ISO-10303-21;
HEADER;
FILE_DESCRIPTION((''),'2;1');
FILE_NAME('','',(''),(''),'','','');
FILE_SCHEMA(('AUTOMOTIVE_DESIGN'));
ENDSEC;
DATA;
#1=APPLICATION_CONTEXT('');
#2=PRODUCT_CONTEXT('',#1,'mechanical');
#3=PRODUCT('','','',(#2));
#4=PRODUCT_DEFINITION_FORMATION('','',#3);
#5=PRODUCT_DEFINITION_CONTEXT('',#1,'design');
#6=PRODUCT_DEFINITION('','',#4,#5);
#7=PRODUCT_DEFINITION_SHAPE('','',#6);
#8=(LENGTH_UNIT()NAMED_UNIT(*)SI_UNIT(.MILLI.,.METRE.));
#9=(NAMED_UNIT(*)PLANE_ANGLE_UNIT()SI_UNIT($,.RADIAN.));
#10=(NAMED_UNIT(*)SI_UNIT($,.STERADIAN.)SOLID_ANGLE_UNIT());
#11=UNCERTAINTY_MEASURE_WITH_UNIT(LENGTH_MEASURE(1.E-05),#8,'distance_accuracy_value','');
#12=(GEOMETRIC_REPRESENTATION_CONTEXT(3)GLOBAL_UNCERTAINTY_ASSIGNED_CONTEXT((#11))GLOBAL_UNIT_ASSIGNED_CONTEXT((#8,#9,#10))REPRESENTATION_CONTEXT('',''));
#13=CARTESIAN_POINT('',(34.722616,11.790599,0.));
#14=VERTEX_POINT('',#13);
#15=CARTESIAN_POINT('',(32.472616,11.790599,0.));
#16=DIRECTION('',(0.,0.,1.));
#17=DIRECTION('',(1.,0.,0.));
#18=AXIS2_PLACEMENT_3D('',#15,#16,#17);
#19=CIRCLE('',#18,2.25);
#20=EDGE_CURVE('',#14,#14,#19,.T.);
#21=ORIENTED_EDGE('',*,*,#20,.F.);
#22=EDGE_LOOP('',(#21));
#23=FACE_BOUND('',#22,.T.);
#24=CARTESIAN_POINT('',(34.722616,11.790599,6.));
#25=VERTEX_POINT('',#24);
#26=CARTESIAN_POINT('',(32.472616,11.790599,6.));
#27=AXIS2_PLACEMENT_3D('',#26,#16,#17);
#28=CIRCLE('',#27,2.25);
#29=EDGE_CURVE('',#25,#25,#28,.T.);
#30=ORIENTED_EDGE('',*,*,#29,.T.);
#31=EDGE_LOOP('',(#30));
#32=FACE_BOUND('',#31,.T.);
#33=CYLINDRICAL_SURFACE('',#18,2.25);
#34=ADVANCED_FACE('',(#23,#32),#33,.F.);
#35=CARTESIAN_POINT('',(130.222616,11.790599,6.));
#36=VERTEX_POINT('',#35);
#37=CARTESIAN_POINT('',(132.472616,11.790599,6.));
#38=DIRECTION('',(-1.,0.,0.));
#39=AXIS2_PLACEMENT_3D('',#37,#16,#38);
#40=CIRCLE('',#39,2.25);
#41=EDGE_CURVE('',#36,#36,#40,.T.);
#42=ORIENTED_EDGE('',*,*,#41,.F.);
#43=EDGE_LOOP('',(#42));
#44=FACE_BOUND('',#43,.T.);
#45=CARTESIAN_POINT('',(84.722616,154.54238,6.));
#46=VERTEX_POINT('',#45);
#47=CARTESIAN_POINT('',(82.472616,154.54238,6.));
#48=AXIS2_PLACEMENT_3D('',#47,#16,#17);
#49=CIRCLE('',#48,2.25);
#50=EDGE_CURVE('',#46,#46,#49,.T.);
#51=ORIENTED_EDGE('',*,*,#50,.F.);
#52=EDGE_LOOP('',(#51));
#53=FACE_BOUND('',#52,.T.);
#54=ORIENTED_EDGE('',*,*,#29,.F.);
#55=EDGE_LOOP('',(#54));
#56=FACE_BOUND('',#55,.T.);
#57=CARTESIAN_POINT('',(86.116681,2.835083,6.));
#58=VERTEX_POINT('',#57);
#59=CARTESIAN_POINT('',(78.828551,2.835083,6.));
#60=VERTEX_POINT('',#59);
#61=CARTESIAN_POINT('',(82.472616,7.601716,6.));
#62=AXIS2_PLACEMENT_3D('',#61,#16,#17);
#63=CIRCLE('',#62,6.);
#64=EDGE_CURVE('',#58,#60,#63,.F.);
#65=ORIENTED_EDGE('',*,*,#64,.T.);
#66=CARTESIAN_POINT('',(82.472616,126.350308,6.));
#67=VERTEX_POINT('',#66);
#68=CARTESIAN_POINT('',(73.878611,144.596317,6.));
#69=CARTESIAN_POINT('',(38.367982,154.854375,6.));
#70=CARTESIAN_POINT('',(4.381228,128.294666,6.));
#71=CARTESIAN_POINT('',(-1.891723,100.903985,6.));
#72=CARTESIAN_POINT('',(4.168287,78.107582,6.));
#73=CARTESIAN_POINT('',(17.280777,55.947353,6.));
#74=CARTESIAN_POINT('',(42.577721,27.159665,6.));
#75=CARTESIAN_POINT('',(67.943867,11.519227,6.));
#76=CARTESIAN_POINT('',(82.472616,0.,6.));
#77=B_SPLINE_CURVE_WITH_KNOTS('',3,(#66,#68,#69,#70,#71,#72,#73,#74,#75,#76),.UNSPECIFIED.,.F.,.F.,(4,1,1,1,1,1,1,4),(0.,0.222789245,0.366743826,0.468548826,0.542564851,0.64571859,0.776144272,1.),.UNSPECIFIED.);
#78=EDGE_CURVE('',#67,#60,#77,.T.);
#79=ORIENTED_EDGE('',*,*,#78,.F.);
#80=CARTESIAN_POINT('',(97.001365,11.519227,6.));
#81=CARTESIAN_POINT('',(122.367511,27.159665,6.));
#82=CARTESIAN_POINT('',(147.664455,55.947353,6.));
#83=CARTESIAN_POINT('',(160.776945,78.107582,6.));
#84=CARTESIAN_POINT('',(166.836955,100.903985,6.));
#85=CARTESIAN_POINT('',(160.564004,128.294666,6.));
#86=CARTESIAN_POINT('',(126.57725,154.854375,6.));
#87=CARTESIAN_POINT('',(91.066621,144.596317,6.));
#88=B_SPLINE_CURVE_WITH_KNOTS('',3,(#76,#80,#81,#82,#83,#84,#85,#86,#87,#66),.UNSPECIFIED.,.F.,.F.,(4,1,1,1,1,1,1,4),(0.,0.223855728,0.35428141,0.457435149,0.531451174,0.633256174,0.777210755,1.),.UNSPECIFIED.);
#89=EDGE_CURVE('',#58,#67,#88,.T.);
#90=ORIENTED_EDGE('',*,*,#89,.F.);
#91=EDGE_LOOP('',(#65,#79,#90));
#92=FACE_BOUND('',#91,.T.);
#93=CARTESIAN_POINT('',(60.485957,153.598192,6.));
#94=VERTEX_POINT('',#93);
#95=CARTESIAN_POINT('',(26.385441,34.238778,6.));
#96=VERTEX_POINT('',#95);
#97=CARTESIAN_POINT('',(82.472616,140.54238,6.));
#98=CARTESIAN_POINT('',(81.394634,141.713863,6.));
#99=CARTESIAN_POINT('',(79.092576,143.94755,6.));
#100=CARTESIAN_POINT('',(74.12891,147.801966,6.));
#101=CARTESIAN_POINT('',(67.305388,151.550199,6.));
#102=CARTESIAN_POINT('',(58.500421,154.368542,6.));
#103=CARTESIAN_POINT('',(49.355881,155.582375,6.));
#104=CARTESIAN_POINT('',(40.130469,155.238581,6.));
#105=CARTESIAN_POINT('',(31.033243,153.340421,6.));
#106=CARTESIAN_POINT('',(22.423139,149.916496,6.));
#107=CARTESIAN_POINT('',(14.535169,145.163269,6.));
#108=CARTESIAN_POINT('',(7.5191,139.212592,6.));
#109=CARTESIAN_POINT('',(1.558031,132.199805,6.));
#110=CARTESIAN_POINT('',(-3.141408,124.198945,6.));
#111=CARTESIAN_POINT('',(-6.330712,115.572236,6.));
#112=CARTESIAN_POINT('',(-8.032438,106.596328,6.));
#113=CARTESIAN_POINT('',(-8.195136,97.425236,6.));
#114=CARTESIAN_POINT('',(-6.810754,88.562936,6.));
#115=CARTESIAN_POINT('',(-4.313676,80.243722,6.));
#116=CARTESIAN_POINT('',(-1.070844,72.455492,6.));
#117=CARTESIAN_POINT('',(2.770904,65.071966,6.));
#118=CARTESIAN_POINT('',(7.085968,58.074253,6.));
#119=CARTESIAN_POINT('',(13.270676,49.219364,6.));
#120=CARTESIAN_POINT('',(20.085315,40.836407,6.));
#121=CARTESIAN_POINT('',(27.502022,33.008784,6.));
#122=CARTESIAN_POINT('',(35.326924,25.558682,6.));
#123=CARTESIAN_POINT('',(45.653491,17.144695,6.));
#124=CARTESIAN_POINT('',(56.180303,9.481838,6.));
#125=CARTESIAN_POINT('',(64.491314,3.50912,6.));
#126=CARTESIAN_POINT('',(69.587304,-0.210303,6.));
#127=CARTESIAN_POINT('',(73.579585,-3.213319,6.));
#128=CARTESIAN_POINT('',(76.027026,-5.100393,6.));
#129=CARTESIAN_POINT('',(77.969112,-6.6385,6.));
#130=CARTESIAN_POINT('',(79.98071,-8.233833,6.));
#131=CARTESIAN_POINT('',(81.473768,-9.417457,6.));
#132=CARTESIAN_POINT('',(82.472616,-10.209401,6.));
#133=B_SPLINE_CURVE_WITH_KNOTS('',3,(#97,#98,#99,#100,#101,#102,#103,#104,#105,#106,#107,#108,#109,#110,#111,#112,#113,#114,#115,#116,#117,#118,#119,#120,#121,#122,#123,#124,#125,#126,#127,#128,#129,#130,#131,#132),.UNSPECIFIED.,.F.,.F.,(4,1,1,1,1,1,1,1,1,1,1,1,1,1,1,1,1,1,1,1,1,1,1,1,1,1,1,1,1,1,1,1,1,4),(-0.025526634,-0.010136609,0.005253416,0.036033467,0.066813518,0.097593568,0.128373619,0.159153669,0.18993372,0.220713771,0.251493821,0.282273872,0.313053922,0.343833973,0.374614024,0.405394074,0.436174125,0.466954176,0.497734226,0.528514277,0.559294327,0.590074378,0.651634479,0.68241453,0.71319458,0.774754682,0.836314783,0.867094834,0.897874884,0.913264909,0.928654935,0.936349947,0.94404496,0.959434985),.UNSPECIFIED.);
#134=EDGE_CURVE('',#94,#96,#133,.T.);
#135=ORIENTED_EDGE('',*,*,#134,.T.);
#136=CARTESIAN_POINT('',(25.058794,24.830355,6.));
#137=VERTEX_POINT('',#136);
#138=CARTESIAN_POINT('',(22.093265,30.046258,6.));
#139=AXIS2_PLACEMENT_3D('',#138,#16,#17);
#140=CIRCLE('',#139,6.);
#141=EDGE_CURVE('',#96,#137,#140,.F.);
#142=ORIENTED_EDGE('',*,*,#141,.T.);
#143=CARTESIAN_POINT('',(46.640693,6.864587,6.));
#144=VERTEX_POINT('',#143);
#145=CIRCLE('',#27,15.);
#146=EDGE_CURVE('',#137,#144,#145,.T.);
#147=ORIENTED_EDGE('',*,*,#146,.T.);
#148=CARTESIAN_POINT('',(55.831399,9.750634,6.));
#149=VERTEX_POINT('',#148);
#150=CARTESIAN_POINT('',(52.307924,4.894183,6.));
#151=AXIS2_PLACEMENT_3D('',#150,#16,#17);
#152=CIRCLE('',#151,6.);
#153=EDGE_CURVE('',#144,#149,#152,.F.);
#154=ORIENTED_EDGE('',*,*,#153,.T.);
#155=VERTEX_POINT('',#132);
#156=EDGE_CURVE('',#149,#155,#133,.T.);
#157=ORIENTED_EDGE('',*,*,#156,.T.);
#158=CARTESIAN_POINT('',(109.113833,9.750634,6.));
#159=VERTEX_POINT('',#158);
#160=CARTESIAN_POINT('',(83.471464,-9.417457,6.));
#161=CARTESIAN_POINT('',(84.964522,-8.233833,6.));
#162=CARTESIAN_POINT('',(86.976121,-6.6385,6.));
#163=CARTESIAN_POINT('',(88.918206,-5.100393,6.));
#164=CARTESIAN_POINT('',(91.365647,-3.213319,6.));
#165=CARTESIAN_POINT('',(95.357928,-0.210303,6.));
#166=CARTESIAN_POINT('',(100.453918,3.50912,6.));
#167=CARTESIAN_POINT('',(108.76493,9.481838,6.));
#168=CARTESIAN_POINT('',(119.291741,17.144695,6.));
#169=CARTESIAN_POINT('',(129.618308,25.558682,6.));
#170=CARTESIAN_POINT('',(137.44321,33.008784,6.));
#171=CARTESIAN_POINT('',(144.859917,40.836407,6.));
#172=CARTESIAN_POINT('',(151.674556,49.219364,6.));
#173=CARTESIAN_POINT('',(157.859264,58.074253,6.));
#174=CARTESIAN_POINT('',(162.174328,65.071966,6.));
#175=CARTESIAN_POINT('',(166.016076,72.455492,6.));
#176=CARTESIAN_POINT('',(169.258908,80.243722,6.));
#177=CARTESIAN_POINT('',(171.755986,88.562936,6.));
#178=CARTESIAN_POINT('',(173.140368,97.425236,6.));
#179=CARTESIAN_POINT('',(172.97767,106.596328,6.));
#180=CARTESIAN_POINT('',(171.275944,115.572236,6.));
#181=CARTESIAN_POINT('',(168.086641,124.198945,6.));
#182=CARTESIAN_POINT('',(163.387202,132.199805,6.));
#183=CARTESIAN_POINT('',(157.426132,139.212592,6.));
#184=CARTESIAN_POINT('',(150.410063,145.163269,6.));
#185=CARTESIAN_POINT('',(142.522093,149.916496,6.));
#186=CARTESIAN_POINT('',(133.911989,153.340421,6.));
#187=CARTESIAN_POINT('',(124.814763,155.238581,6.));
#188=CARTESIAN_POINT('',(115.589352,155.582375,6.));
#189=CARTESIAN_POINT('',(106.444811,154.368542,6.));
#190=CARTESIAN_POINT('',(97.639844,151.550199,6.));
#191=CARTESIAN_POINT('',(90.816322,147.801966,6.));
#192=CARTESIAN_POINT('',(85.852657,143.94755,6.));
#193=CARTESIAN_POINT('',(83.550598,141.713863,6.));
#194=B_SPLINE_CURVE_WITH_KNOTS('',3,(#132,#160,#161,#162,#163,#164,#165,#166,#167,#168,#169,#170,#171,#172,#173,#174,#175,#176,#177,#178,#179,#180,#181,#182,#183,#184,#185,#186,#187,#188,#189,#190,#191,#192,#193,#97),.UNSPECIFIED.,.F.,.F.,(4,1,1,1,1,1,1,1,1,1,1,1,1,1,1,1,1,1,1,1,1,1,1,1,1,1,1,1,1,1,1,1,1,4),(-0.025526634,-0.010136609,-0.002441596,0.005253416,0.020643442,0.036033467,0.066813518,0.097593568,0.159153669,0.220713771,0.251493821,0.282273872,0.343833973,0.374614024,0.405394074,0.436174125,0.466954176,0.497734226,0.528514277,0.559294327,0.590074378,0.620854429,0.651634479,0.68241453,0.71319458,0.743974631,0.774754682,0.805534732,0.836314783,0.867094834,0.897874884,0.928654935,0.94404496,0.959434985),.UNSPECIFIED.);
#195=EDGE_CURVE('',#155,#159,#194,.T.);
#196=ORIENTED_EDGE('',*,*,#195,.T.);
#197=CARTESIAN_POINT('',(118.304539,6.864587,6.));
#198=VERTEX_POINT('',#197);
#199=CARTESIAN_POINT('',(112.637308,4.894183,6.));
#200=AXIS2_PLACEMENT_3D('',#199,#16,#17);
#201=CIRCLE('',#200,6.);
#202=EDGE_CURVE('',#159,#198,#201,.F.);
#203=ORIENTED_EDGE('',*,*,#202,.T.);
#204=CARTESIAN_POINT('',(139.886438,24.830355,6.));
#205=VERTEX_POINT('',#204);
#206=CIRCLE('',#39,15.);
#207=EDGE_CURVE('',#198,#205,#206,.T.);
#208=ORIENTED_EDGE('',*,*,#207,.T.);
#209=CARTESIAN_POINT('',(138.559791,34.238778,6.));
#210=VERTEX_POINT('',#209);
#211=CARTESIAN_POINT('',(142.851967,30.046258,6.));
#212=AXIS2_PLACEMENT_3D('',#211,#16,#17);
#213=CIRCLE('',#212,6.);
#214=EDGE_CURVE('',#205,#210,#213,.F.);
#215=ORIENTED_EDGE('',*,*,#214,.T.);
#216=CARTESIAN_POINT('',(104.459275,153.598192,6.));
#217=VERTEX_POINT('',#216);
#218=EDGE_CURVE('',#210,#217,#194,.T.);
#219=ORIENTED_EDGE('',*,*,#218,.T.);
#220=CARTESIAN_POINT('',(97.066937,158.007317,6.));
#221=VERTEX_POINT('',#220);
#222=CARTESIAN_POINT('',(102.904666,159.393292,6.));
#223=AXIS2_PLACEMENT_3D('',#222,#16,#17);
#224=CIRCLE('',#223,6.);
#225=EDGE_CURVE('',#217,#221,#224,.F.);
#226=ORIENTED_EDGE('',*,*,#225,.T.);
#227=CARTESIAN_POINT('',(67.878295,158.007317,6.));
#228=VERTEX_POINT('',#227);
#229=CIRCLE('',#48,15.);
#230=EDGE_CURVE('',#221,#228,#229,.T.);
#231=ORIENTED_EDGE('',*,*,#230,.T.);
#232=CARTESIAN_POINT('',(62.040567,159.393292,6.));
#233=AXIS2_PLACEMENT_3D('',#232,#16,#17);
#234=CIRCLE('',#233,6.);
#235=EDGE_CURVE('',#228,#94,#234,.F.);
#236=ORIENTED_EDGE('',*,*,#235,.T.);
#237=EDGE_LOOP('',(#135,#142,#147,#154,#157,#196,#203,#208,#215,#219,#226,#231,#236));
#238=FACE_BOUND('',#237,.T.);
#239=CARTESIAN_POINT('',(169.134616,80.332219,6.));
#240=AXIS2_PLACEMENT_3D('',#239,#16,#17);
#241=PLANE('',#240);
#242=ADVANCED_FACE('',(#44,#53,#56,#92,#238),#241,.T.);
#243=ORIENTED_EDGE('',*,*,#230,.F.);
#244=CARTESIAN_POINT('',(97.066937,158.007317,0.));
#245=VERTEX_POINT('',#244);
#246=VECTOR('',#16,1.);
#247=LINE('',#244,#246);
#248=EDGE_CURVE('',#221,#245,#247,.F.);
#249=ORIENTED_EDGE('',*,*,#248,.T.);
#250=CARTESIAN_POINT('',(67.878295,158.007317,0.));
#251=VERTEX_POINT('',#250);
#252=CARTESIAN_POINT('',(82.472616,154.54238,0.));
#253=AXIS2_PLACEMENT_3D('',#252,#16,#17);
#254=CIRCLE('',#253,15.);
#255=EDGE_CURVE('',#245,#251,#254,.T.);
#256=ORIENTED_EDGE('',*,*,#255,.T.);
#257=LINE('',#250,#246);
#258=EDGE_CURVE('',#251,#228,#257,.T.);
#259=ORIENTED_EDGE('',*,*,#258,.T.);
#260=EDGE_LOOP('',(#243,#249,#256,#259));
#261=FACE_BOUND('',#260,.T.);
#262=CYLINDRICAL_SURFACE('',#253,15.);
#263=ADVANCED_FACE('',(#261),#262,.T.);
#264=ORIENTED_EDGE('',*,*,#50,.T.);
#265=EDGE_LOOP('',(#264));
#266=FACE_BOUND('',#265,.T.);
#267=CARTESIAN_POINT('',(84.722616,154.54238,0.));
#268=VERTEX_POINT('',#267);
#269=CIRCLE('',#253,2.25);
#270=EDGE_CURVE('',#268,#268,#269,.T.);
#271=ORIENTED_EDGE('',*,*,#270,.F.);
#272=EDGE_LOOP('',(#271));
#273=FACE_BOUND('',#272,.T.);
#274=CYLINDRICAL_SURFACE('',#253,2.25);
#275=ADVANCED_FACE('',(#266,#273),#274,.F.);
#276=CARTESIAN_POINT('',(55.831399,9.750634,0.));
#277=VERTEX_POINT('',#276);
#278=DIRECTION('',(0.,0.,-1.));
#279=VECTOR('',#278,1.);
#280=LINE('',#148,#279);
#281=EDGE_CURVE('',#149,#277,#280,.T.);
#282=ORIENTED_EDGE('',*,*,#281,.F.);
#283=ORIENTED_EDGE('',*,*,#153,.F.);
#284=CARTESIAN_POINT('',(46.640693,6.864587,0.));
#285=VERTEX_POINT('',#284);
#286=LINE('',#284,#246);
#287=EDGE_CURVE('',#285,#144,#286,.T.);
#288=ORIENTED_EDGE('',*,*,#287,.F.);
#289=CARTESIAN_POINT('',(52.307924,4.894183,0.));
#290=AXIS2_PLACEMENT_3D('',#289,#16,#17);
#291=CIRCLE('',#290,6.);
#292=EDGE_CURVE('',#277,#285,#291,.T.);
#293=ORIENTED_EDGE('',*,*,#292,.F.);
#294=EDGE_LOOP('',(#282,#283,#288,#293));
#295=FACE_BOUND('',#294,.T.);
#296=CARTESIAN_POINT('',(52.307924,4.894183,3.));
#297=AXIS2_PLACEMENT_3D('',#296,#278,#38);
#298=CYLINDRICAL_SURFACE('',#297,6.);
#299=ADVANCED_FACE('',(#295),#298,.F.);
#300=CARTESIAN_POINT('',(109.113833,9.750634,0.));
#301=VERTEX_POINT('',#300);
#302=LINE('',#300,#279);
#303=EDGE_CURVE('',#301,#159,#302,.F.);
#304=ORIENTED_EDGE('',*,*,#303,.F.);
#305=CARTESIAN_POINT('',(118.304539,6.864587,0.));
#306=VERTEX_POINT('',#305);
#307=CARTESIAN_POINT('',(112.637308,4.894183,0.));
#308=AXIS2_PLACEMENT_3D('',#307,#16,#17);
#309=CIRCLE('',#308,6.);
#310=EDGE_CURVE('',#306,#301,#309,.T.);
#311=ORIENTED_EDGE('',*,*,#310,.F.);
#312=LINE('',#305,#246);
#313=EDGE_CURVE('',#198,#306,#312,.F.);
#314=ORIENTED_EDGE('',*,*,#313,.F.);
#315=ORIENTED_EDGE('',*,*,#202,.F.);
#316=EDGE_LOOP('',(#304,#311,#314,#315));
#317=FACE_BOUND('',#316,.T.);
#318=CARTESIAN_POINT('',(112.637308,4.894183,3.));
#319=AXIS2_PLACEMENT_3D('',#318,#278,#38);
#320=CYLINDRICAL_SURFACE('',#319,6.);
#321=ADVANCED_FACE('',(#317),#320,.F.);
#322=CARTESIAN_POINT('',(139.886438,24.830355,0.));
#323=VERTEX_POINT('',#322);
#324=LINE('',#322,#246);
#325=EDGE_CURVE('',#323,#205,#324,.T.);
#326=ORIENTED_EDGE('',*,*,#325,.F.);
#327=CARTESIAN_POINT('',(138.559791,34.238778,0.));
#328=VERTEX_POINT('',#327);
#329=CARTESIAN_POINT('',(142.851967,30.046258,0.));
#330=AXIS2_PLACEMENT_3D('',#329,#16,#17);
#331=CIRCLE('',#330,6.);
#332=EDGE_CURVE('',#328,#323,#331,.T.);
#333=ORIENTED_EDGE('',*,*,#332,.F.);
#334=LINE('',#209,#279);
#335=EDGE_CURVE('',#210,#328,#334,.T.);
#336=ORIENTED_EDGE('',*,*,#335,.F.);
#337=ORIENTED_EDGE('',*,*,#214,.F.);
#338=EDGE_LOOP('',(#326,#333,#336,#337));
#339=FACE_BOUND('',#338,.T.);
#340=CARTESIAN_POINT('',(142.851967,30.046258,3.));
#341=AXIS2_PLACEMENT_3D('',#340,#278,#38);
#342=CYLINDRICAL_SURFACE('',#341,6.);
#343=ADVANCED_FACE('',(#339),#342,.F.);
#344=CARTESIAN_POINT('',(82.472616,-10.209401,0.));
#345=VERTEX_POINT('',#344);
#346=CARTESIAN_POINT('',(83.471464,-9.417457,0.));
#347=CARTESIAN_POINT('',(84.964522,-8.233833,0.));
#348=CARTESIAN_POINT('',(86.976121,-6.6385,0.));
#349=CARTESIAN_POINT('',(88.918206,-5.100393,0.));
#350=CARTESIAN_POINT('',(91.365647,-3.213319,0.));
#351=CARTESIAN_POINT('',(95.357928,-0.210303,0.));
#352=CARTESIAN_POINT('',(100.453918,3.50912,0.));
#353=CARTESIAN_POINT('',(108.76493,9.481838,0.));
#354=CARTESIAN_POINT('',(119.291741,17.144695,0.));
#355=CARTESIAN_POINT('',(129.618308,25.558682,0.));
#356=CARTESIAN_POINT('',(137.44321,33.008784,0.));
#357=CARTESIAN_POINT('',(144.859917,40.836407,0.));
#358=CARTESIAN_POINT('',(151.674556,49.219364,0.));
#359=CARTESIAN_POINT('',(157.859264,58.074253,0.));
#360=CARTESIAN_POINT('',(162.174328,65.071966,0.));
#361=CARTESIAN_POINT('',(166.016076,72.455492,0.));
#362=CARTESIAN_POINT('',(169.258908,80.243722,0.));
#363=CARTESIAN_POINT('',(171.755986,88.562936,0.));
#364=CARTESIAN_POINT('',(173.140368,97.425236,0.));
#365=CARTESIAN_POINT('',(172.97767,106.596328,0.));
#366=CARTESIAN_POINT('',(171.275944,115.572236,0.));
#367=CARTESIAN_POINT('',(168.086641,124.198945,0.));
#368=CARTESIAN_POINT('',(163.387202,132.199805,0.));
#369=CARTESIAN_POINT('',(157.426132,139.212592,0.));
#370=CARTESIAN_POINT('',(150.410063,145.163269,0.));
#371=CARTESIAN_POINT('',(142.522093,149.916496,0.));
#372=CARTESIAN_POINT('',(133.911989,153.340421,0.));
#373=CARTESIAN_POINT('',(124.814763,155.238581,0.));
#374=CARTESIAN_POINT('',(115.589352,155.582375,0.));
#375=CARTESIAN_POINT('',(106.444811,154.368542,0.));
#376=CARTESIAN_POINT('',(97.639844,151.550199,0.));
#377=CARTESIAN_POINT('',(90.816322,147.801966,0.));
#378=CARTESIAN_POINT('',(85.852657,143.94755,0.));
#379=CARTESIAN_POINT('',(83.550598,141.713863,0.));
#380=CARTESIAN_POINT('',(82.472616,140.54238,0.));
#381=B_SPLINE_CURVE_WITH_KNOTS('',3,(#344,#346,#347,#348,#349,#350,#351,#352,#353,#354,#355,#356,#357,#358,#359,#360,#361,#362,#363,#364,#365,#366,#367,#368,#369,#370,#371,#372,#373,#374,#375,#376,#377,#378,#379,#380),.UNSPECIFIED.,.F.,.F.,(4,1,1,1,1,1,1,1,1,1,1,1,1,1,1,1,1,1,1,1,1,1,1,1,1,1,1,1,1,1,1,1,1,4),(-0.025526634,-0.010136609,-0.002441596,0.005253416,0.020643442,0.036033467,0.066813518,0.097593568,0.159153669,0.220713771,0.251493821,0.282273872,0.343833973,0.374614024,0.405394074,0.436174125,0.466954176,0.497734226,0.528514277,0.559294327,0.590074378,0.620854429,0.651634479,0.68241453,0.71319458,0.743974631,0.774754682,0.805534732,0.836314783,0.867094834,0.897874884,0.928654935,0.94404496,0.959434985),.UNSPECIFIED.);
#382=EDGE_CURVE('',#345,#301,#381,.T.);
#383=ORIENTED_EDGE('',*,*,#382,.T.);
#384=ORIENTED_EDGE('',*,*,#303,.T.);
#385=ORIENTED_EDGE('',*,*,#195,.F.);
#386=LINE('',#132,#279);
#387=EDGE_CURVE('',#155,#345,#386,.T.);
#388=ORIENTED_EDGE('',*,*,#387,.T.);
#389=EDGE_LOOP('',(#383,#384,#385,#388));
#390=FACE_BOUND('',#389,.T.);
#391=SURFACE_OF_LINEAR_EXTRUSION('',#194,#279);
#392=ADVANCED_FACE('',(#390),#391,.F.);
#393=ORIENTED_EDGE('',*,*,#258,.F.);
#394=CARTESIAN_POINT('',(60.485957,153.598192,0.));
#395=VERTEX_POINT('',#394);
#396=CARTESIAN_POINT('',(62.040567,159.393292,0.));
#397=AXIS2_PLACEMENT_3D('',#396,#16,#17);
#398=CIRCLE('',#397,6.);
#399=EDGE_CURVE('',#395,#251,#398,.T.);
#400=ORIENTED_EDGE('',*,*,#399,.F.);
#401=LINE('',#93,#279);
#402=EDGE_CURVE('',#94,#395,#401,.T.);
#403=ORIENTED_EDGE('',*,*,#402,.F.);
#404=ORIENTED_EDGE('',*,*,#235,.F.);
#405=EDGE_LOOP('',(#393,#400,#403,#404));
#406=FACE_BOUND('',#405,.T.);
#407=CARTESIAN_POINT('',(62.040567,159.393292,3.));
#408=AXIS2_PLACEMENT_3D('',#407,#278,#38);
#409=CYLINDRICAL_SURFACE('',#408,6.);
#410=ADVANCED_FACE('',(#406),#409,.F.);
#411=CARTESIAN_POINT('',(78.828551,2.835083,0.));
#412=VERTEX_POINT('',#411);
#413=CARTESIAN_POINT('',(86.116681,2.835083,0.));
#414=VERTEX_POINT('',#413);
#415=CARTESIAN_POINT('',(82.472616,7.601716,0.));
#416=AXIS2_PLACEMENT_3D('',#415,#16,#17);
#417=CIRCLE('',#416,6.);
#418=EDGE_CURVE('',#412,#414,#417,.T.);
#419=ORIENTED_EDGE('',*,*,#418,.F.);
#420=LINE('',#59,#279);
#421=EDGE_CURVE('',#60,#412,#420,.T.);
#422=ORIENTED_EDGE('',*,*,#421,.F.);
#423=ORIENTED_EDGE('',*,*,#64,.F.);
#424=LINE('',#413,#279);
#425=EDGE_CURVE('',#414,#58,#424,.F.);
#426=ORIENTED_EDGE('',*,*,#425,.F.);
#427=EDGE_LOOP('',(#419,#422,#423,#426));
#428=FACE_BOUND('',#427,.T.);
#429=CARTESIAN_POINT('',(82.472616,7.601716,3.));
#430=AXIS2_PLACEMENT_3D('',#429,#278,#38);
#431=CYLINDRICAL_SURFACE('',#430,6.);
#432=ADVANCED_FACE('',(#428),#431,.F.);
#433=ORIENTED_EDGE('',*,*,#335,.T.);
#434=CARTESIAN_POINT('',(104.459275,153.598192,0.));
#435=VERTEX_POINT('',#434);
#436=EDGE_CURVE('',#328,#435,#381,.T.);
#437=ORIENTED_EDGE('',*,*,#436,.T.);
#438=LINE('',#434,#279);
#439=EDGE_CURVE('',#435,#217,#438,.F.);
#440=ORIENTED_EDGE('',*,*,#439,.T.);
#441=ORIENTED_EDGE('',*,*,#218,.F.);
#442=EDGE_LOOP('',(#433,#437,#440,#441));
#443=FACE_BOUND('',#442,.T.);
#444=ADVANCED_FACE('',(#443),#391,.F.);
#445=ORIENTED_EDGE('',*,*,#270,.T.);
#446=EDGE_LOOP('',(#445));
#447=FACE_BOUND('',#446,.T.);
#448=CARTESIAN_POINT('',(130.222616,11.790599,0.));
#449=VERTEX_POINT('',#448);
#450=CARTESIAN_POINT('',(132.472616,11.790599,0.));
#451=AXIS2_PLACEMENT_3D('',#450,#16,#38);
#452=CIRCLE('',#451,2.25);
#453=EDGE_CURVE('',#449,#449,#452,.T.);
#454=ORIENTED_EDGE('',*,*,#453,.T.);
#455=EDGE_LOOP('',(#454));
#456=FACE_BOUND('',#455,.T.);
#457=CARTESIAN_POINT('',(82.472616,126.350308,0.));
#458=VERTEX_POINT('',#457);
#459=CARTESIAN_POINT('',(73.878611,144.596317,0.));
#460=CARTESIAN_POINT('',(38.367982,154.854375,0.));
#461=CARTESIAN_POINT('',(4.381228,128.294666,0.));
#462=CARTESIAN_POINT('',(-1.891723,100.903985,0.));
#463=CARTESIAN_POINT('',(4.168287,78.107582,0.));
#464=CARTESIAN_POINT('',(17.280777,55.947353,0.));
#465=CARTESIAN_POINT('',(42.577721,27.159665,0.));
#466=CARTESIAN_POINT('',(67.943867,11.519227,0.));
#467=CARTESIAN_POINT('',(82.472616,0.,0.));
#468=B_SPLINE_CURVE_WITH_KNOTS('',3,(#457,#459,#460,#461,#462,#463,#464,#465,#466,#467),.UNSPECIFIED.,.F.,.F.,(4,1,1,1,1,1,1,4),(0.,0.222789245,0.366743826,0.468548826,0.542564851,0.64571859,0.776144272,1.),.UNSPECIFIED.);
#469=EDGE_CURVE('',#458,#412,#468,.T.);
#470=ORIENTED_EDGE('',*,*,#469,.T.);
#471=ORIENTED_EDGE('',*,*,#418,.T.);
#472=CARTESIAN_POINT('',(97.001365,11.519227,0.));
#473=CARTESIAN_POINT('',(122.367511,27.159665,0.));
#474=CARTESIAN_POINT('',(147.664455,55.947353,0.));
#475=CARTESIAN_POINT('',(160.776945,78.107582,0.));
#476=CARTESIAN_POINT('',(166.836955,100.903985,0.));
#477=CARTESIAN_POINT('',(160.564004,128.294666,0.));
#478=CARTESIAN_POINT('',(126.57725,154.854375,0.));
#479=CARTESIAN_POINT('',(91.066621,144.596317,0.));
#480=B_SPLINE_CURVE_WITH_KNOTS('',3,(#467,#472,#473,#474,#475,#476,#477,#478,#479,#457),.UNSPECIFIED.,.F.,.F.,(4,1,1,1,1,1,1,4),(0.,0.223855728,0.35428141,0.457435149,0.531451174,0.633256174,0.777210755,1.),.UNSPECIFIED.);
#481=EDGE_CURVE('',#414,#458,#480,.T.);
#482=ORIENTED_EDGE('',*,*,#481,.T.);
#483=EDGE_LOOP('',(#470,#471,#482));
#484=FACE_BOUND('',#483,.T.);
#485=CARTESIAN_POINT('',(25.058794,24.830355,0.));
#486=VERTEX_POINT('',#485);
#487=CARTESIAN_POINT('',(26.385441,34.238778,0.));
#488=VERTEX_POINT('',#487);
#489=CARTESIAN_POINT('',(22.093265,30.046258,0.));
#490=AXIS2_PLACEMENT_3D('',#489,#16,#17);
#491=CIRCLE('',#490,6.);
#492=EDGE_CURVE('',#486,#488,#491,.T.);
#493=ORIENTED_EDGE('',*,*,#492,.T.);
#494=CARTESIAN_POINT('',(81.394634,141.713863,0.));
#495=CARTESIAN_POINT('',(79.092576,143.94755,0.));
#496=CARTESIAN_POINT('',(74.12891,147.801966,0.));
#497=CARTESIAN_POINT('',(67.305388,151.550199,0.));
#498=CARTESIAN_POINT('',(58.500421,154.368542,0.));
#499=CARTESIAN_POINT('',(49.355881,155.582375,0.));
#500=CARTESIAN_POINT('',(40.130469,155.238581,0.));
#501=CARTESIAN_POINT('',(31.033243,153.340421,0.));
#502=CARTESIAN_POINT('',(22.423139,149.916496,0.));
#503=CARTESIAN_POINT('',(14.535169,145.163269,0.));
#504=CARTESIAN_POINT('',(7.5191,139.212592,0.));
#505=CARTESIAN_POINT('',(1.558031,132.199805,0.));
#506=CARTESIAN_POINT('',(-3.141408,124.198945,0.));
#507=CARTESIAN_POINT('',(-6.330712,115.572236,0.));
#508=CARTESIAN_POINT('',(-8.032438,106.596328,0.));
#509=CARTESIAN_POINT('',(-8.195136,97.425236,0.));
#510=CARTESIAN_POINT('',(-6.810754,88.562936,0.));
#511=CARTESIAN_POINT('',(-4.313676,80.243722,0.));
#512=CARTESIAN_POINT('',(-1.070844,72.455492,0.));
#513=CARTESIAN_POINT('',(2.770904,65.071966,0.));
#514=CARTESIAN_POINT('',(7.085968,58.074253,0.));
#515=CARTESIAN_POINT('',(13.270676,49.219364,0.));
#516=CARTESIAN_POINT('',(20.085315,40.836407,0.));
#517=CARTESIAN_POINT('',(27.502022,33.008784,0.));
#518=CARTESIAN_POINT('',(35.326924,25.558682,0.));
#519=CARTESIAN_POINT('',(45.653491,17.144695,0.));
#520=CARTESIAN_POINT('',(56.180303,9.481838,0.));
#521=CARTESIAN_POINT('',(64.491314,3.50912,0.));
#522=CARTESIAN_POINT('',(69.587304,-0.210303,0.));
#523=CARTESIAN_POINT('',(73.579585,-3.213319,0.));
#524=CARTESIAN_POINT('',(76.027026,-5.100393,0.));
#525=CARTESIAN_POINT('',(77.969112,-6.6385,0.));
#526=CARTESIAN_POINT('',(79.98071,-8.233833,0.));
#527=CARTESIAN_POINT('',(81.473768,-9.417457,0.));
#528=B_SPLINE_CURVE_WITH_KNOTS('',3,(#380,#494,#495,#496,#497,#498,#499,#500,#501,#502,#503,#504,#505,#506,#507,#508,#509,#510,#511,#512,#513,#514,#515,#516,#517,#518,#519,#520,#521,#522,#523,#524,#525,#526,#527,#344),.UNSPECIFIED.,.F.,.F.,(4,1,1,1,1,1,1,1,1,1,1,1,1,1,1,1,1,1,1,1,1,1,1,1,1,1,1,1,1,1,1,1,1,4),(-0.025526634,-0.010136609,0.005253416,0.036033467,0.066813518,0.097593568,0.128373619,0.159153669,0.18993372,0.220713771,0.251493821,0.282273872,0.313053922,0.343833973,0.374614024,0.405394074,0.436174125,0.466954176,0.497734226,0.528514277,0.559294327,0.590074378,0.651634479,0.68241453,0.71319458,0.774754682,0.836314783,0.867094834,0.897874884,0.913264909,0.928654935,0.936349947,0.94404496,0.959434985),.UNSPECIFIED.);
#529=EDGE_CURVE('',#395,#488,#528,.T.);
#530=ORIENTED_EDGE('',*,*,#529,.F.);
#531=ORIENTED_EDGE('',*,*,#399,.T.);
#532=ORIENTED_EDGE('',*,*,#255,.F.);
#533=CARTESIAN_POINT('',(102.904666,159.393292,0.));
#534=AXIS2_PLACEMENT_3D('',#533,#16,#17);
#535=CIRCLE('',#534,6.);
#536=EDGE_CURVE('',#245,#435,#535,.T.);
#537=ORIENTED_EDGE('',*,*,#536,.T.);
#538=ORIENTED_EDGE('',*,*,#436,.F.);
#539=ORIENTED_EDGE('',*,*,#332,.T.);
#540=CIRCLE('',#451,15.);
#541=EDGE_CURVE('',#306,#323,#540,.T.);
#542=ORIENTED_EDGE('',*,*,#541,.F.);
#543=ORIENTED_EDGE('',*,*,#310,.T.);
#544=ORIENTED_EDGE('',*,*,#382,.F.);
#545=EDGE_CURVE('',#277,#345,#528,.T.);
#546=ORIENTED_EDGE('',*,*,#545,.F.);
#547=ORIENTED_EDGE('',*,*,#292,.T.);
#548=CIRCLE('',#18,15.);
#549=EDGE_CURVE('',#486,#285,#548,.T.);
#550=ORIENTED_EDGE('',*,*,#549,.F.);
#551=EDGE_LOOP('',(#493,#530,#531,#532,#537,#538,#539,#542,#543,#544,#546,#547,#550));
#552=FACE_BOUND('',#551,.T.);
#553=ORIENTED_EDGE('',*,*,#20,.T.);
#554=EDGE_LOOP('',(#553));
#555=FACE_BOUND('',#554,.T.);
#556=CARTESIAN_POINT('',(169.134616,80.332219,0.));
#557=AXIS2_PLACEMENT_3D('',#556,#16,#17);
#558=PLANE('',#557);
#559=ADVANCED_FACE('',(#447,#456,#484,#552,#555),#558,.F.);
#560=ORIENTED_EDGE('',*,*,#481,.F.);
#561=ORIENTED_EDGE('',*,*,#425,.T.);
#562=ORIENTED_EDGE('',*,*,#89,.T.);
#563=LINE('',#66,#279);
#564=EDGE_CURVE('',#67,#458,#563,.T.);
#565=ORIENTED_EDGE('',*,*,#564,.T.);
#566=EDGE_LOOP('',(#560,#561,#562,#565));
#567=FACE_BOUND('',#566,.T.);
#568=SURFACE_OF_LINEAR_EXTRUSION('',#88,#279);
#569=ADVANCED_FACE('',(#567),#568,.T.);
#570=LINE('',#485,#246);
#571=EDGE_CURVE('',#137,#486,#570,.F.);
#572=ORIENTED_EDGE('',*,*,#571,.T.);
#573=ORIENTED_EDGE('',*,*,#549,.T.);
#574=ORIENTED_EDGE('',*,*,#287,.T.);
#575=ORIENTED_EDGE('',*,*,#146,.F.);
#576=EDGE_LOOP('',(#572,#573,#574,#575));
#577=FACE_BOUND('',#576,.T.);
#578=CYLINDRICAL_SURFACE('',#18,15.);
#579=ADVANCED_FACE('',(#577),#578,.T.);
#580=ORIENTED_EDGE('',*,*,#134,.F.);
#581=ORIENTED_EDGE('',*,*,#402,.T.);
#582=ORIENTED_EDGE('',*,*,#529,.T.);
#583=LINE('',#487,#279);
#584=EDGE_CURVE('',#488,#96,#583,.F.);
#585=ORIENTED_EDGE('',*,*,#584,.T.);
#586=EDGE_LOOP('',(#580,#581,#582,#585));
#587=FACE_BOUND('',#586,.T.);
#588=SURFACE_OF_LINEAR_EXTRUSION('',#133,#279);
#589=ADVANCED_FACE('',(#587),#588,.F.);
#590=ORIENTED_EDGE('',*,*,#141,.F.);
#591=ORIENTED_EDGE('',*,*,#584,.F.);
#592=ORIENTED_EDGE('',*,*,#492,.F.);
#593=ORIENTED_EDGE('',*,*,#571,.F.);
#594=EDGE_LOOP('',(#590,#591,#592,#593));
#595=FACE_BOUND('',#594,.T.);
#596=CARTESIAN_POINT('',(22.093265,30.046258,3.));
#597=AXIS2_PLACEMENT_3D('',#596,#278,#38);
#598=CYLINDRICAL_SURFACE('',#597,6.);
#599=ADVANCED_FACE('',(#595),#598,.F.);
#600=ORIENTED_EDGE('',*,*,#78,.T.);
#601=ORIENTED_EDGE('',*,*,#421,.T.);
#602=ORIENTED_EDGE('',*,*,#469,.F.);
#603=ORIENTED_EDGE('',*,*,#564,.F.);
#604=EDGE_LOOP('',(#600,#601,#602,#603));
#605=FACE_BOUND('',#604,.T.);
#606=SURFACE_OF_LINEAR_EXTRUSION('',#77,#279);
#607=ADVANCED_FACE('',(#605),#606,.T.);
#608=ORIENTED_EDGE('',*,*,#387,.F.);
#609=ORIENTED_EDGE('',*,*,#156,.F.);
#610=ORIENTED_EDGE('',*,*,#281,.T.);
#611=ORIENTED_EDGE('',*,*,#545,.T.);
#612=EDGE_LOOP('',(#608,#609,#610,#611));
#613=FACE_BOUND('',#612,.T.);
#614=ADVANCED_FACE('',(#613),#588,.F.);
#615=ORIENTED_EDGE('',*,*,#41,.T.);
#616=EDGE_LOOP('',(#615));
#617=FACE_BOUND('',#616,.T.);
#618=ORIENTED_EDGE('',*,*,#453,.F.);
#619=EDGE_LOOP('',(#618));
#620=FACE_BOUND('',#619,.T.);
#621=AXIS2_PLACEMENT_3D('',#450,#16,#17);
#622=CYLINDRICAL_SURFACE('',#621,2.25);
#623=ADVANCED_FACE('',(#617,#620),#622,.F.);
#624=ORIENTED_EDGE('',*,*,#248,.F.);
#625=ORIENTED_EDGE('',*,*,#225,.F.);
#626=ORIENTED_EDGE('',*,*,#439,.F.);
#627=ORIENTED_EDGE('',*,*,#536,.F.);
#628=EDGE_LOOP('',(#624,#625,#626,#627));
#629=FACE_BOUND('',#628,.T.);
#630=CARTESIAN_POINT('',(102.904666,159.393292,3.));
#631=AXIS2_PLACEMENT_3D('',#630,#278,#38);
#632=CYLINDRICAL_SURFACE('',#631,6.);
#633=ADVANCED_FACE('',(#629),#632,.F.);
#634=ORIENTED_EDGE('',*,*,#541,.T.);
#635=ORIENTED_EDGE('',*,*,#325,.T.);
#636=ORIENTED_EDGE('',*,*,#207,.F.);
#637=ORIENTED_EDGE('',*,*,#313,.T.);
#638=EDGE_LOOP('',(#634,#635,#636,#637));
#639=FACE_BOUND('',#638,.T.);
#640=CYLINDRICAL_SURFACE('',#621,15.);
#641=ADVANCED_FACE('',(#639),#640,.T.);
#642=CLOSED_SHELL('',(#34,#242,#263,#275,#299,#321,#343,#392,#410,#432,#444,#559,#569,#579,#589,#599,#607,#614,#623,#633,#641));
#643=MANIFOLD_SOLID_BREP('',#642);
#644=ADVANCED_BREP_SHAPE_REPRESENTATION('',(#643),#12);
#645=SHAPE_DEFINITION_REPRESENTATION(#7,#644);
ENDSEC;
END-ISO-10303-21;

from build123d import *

# Parameters (mm, degrees)
BOSS_EXTRU_1_DEPTH = 6
ESQUISSE5_R        = 15
ESQUISSE5_R_2      = 2.25
BOSS_EXTRU_2_DEPTH = 6
CONG_1_R           = 6


with BuildPart() as part:
    # Esquisse4 → Boss.-Extru.1 (new body)
    with BuildSketch(Plane.XY):
        with BuildLine():
            add(Edge.make_bspline(
                [(82.472616095, -10.209400905), (81.473768233, -9.417456946), (79.980709865, -8.233833019), (77.969111672, -6.63849974), (76.02702582, -5.100393271), (73.579584991, -3.213319025), (69.587304059, -0.210302632), (64.491314394, 3.509119556), (56.180302528, 9.481838133), (45.653491001, 17.14469468), (35.326924258, 25.558682491), (27.502022229, 33.008783734), (20.085314738, 40.836407325), (13.270676045, 49.219363645), (7.085968127, 58.074252572), (2.770904447, 65.071966358), (-1.07084378, 72.455491772), (-4.31367616, 80.243721951), (-6.81075396, 88.562935857), (-8.195135533, 97.425235786), (-8.032438256, 106.596327776), (-6.330712291, 115.572236386), (-3.141408337, 124.198944653), (1.558030601, 132.199804754), (7.519100207, 139.212591542), (14.535168755, 145.163269137), (22.423138905, 149.916495524), (31.033243349, 153.34042103), (40.130468732, 155.238581256), (49.355880529, 155.582375027), (58.500420945, 154.36854218), (67.305388192, 151.550198602), (74.128909764, 147.801965869), (79.092575548, 143.947549858), (81.394634396, 141.713863229), (82.472616095, 140.542379671)],
                knots=[-0.025526634, -0.025526634, -0.025526634, -0.025526634, -0.010136609, -0.002441596, 0.005253416, 0.020643442, 0.036033467, 0.066813518, 0.097593568, 0.159153669, 0.220713771, 0.251493821, 0.282273872, 0.343833973, 0.374614024, 0.405394074, 0.436174125, 0.466954176, 0.497734226, 0.528514277, 0.559294327, 0.590074378, 0.620854429, 0.651634479, 0.68241453, 0.71319458, 0.743974631, 0.774754682, 0.805534732, 0.836314783, 0.867094834, 0.897874884, 0.928654935, 0.94404496, 0.959434985, 0.959434985, 0.959434985, 0.959434985], degree=3))
            add(Edge.make_bspline(
                [(82.472616095, 140.542379671), (83.550597794, 141.713863229), (85.852656642, 143.947549858), (90.816322426, 147.801965869), (97.639843998, 151.550198602), (106.444811245, 154.36854218), (115.589351662, 155.582375027), (124.814763458, 155.238581256), (133.911988842, 153.34042103), (142.522093285, 149.916495524), (150.410063436, 145.163269137), (157.426131984, 139.212591542), (163.387201589, 132.199804754), (168.086640528, 124.198944653), (171.275944481, 115.572236386), (172.977670446, 106.596327776), (173.140367724, 97.425235786), (171.755986151, 88.562935857), (169.25890835, 80.243721951), (166.01607597, 72.455491772), (162.174327743, 65.071966358), (157.859264063, 58.074252572), (151.674556145, 49.219363645), (144.859917452, 40.836407325), (137.443209961, 33.008783734), (129.618307932, 25.558682491), (119.291741189, 17.14469468), (108.764929662, 9.481838133), (100.453917796, 3.509119556), (95.357928131, -0.210302632), (91.3656472, -3.213319025), (88.91820637, -5.100393271), (86.976120518, -6.63849974), (84.964522325, -8.233833019), (83.471463957, -9.417456946), (82.472616095, -10.209400905)],
                knots=[-0.025526634, -0.025526634, -0.025526634, -0.025526634, -0.010136609, 0.005253416, 0.036033467, 0.066813518, 0.097593568, 0.128373619, 0.159153669, 0.18993372, 0.220713771, 0.251493821, 0.282273872, 0.313053922, 0.343833973, 0.374614024, 0.405394074, 0.436174125, 0.466954176, 0.497734226, 0.528514277, 0.559294327, 0.590074378, 0.651634479, 0.68241453, 0.71319458, 0.774754682, 0.836314783, 0.867094834, 0.897874884, 0.913264909, 0.928654935, 0.936349947, 0.94404496, 0.959434985, 0.959434985, 0.959434985, 0.959434985], degree=3))
        make_face()
        with BuildLine():
            add(Edge.make_bspline(
                [(82.472616095, 0), (97.001365121, 11.519226751), (122.36751101, 27.159664528), (147.664455446, 55.947352529), (160.776944752, 78.107581553), (166.836954822, 100.903984809), (160.564003733, 128.294665653), (126.577250321, 154.854375307), (91.066621187, 144.596317398), (82.472616095, 126.350308344)],
                knots=[0, 0, 0, 0, 0.223855728, 0.35428141, 0.457435149, 0.531451174, 0.633256174, 0.777210755, 1, 1, 1, 1], degree=3))
            add(Edge.make_bspline(
                [(82.472616095, 0), (67.943867069, 11.519226751), (42.57772118, 27.159664528), (17.280776744, 55.947352529), (4.168287438, 78.107581553), (-1.891722631, 100.903984809), (4.381228457, 128.294665653), (38.367981869, 154.854375307), (73.878611003, 144.596317398), (82.472616095, 126.350308344)],
                knots=[0, 0, 0, 0, 0.223855728, 0.35428141, 0.457435149, 0.531451174, 0.633256174, 0.777210755, 1, 1, 1, 1], degree=3))
        make_face(mode=Mode.SUBTRACT)
    extrude(amount=BOSS_EXTRU_1_DEPTH)

    # Esquisse5 → Boss.-Extru.2 (add)
    # profile 1 of 3: a face of its own
    with BuildSketch(Plane.XY.offset(6)):
        with Locations((32.472616095, 11.790599095)):
            Circle(ESQUISSE5_R)
        with Locations((32.472616095, 11.790599095)):
            Circle(ESQUISSE5_R_2, mode=Mode.SUBTRACT)
    # profile 2 of 3: a face of its own
    with BuildSketch(Plane.XY.offset(6)):
        with Locations((132.472616095, 11.790599095)):
            Circle(ESQUISSE5_R)
        with Locations(Location((132.472616095, 11.790599095, 0), (0, 0, 180))):
            Circle(ESQUISSE5_R_2, mode=Mode.SUBTRACT)
    # profile 3 of 3: a face of its own
    with BuildSketch(Plane.XY.offset(6)):
        with Locations((82.472616095, 154.542379671)):
            Circle(ESQUISSE5_R)
        with Locations((82.472616095, 154.542379671)):
            Circle(ESQUISSE5_R_2, mode=Mode.SUBTRACT)
    extrude(amount=-BOSS_EXTRU_2_DEPTH)

    # Congé1
    cong_1_edges = [part.edges().sort_by_distance(p)[0] for p in [
        (82.472616095, 0, 3),
        (67.906565982, 150.960455033, 3),
        (97.038666208, 150.960455033, 3),
        (118.236219943, 16.515535559, 3),
        (130.644527221, 26.678785387, 3),
        (34.300704969, 26.678785387, 3),
        (46.709012248, 16.515535559, 3),
    ]]
    fillet(cong_1_edges, radius=CONG_1_R)


solid = part.part
